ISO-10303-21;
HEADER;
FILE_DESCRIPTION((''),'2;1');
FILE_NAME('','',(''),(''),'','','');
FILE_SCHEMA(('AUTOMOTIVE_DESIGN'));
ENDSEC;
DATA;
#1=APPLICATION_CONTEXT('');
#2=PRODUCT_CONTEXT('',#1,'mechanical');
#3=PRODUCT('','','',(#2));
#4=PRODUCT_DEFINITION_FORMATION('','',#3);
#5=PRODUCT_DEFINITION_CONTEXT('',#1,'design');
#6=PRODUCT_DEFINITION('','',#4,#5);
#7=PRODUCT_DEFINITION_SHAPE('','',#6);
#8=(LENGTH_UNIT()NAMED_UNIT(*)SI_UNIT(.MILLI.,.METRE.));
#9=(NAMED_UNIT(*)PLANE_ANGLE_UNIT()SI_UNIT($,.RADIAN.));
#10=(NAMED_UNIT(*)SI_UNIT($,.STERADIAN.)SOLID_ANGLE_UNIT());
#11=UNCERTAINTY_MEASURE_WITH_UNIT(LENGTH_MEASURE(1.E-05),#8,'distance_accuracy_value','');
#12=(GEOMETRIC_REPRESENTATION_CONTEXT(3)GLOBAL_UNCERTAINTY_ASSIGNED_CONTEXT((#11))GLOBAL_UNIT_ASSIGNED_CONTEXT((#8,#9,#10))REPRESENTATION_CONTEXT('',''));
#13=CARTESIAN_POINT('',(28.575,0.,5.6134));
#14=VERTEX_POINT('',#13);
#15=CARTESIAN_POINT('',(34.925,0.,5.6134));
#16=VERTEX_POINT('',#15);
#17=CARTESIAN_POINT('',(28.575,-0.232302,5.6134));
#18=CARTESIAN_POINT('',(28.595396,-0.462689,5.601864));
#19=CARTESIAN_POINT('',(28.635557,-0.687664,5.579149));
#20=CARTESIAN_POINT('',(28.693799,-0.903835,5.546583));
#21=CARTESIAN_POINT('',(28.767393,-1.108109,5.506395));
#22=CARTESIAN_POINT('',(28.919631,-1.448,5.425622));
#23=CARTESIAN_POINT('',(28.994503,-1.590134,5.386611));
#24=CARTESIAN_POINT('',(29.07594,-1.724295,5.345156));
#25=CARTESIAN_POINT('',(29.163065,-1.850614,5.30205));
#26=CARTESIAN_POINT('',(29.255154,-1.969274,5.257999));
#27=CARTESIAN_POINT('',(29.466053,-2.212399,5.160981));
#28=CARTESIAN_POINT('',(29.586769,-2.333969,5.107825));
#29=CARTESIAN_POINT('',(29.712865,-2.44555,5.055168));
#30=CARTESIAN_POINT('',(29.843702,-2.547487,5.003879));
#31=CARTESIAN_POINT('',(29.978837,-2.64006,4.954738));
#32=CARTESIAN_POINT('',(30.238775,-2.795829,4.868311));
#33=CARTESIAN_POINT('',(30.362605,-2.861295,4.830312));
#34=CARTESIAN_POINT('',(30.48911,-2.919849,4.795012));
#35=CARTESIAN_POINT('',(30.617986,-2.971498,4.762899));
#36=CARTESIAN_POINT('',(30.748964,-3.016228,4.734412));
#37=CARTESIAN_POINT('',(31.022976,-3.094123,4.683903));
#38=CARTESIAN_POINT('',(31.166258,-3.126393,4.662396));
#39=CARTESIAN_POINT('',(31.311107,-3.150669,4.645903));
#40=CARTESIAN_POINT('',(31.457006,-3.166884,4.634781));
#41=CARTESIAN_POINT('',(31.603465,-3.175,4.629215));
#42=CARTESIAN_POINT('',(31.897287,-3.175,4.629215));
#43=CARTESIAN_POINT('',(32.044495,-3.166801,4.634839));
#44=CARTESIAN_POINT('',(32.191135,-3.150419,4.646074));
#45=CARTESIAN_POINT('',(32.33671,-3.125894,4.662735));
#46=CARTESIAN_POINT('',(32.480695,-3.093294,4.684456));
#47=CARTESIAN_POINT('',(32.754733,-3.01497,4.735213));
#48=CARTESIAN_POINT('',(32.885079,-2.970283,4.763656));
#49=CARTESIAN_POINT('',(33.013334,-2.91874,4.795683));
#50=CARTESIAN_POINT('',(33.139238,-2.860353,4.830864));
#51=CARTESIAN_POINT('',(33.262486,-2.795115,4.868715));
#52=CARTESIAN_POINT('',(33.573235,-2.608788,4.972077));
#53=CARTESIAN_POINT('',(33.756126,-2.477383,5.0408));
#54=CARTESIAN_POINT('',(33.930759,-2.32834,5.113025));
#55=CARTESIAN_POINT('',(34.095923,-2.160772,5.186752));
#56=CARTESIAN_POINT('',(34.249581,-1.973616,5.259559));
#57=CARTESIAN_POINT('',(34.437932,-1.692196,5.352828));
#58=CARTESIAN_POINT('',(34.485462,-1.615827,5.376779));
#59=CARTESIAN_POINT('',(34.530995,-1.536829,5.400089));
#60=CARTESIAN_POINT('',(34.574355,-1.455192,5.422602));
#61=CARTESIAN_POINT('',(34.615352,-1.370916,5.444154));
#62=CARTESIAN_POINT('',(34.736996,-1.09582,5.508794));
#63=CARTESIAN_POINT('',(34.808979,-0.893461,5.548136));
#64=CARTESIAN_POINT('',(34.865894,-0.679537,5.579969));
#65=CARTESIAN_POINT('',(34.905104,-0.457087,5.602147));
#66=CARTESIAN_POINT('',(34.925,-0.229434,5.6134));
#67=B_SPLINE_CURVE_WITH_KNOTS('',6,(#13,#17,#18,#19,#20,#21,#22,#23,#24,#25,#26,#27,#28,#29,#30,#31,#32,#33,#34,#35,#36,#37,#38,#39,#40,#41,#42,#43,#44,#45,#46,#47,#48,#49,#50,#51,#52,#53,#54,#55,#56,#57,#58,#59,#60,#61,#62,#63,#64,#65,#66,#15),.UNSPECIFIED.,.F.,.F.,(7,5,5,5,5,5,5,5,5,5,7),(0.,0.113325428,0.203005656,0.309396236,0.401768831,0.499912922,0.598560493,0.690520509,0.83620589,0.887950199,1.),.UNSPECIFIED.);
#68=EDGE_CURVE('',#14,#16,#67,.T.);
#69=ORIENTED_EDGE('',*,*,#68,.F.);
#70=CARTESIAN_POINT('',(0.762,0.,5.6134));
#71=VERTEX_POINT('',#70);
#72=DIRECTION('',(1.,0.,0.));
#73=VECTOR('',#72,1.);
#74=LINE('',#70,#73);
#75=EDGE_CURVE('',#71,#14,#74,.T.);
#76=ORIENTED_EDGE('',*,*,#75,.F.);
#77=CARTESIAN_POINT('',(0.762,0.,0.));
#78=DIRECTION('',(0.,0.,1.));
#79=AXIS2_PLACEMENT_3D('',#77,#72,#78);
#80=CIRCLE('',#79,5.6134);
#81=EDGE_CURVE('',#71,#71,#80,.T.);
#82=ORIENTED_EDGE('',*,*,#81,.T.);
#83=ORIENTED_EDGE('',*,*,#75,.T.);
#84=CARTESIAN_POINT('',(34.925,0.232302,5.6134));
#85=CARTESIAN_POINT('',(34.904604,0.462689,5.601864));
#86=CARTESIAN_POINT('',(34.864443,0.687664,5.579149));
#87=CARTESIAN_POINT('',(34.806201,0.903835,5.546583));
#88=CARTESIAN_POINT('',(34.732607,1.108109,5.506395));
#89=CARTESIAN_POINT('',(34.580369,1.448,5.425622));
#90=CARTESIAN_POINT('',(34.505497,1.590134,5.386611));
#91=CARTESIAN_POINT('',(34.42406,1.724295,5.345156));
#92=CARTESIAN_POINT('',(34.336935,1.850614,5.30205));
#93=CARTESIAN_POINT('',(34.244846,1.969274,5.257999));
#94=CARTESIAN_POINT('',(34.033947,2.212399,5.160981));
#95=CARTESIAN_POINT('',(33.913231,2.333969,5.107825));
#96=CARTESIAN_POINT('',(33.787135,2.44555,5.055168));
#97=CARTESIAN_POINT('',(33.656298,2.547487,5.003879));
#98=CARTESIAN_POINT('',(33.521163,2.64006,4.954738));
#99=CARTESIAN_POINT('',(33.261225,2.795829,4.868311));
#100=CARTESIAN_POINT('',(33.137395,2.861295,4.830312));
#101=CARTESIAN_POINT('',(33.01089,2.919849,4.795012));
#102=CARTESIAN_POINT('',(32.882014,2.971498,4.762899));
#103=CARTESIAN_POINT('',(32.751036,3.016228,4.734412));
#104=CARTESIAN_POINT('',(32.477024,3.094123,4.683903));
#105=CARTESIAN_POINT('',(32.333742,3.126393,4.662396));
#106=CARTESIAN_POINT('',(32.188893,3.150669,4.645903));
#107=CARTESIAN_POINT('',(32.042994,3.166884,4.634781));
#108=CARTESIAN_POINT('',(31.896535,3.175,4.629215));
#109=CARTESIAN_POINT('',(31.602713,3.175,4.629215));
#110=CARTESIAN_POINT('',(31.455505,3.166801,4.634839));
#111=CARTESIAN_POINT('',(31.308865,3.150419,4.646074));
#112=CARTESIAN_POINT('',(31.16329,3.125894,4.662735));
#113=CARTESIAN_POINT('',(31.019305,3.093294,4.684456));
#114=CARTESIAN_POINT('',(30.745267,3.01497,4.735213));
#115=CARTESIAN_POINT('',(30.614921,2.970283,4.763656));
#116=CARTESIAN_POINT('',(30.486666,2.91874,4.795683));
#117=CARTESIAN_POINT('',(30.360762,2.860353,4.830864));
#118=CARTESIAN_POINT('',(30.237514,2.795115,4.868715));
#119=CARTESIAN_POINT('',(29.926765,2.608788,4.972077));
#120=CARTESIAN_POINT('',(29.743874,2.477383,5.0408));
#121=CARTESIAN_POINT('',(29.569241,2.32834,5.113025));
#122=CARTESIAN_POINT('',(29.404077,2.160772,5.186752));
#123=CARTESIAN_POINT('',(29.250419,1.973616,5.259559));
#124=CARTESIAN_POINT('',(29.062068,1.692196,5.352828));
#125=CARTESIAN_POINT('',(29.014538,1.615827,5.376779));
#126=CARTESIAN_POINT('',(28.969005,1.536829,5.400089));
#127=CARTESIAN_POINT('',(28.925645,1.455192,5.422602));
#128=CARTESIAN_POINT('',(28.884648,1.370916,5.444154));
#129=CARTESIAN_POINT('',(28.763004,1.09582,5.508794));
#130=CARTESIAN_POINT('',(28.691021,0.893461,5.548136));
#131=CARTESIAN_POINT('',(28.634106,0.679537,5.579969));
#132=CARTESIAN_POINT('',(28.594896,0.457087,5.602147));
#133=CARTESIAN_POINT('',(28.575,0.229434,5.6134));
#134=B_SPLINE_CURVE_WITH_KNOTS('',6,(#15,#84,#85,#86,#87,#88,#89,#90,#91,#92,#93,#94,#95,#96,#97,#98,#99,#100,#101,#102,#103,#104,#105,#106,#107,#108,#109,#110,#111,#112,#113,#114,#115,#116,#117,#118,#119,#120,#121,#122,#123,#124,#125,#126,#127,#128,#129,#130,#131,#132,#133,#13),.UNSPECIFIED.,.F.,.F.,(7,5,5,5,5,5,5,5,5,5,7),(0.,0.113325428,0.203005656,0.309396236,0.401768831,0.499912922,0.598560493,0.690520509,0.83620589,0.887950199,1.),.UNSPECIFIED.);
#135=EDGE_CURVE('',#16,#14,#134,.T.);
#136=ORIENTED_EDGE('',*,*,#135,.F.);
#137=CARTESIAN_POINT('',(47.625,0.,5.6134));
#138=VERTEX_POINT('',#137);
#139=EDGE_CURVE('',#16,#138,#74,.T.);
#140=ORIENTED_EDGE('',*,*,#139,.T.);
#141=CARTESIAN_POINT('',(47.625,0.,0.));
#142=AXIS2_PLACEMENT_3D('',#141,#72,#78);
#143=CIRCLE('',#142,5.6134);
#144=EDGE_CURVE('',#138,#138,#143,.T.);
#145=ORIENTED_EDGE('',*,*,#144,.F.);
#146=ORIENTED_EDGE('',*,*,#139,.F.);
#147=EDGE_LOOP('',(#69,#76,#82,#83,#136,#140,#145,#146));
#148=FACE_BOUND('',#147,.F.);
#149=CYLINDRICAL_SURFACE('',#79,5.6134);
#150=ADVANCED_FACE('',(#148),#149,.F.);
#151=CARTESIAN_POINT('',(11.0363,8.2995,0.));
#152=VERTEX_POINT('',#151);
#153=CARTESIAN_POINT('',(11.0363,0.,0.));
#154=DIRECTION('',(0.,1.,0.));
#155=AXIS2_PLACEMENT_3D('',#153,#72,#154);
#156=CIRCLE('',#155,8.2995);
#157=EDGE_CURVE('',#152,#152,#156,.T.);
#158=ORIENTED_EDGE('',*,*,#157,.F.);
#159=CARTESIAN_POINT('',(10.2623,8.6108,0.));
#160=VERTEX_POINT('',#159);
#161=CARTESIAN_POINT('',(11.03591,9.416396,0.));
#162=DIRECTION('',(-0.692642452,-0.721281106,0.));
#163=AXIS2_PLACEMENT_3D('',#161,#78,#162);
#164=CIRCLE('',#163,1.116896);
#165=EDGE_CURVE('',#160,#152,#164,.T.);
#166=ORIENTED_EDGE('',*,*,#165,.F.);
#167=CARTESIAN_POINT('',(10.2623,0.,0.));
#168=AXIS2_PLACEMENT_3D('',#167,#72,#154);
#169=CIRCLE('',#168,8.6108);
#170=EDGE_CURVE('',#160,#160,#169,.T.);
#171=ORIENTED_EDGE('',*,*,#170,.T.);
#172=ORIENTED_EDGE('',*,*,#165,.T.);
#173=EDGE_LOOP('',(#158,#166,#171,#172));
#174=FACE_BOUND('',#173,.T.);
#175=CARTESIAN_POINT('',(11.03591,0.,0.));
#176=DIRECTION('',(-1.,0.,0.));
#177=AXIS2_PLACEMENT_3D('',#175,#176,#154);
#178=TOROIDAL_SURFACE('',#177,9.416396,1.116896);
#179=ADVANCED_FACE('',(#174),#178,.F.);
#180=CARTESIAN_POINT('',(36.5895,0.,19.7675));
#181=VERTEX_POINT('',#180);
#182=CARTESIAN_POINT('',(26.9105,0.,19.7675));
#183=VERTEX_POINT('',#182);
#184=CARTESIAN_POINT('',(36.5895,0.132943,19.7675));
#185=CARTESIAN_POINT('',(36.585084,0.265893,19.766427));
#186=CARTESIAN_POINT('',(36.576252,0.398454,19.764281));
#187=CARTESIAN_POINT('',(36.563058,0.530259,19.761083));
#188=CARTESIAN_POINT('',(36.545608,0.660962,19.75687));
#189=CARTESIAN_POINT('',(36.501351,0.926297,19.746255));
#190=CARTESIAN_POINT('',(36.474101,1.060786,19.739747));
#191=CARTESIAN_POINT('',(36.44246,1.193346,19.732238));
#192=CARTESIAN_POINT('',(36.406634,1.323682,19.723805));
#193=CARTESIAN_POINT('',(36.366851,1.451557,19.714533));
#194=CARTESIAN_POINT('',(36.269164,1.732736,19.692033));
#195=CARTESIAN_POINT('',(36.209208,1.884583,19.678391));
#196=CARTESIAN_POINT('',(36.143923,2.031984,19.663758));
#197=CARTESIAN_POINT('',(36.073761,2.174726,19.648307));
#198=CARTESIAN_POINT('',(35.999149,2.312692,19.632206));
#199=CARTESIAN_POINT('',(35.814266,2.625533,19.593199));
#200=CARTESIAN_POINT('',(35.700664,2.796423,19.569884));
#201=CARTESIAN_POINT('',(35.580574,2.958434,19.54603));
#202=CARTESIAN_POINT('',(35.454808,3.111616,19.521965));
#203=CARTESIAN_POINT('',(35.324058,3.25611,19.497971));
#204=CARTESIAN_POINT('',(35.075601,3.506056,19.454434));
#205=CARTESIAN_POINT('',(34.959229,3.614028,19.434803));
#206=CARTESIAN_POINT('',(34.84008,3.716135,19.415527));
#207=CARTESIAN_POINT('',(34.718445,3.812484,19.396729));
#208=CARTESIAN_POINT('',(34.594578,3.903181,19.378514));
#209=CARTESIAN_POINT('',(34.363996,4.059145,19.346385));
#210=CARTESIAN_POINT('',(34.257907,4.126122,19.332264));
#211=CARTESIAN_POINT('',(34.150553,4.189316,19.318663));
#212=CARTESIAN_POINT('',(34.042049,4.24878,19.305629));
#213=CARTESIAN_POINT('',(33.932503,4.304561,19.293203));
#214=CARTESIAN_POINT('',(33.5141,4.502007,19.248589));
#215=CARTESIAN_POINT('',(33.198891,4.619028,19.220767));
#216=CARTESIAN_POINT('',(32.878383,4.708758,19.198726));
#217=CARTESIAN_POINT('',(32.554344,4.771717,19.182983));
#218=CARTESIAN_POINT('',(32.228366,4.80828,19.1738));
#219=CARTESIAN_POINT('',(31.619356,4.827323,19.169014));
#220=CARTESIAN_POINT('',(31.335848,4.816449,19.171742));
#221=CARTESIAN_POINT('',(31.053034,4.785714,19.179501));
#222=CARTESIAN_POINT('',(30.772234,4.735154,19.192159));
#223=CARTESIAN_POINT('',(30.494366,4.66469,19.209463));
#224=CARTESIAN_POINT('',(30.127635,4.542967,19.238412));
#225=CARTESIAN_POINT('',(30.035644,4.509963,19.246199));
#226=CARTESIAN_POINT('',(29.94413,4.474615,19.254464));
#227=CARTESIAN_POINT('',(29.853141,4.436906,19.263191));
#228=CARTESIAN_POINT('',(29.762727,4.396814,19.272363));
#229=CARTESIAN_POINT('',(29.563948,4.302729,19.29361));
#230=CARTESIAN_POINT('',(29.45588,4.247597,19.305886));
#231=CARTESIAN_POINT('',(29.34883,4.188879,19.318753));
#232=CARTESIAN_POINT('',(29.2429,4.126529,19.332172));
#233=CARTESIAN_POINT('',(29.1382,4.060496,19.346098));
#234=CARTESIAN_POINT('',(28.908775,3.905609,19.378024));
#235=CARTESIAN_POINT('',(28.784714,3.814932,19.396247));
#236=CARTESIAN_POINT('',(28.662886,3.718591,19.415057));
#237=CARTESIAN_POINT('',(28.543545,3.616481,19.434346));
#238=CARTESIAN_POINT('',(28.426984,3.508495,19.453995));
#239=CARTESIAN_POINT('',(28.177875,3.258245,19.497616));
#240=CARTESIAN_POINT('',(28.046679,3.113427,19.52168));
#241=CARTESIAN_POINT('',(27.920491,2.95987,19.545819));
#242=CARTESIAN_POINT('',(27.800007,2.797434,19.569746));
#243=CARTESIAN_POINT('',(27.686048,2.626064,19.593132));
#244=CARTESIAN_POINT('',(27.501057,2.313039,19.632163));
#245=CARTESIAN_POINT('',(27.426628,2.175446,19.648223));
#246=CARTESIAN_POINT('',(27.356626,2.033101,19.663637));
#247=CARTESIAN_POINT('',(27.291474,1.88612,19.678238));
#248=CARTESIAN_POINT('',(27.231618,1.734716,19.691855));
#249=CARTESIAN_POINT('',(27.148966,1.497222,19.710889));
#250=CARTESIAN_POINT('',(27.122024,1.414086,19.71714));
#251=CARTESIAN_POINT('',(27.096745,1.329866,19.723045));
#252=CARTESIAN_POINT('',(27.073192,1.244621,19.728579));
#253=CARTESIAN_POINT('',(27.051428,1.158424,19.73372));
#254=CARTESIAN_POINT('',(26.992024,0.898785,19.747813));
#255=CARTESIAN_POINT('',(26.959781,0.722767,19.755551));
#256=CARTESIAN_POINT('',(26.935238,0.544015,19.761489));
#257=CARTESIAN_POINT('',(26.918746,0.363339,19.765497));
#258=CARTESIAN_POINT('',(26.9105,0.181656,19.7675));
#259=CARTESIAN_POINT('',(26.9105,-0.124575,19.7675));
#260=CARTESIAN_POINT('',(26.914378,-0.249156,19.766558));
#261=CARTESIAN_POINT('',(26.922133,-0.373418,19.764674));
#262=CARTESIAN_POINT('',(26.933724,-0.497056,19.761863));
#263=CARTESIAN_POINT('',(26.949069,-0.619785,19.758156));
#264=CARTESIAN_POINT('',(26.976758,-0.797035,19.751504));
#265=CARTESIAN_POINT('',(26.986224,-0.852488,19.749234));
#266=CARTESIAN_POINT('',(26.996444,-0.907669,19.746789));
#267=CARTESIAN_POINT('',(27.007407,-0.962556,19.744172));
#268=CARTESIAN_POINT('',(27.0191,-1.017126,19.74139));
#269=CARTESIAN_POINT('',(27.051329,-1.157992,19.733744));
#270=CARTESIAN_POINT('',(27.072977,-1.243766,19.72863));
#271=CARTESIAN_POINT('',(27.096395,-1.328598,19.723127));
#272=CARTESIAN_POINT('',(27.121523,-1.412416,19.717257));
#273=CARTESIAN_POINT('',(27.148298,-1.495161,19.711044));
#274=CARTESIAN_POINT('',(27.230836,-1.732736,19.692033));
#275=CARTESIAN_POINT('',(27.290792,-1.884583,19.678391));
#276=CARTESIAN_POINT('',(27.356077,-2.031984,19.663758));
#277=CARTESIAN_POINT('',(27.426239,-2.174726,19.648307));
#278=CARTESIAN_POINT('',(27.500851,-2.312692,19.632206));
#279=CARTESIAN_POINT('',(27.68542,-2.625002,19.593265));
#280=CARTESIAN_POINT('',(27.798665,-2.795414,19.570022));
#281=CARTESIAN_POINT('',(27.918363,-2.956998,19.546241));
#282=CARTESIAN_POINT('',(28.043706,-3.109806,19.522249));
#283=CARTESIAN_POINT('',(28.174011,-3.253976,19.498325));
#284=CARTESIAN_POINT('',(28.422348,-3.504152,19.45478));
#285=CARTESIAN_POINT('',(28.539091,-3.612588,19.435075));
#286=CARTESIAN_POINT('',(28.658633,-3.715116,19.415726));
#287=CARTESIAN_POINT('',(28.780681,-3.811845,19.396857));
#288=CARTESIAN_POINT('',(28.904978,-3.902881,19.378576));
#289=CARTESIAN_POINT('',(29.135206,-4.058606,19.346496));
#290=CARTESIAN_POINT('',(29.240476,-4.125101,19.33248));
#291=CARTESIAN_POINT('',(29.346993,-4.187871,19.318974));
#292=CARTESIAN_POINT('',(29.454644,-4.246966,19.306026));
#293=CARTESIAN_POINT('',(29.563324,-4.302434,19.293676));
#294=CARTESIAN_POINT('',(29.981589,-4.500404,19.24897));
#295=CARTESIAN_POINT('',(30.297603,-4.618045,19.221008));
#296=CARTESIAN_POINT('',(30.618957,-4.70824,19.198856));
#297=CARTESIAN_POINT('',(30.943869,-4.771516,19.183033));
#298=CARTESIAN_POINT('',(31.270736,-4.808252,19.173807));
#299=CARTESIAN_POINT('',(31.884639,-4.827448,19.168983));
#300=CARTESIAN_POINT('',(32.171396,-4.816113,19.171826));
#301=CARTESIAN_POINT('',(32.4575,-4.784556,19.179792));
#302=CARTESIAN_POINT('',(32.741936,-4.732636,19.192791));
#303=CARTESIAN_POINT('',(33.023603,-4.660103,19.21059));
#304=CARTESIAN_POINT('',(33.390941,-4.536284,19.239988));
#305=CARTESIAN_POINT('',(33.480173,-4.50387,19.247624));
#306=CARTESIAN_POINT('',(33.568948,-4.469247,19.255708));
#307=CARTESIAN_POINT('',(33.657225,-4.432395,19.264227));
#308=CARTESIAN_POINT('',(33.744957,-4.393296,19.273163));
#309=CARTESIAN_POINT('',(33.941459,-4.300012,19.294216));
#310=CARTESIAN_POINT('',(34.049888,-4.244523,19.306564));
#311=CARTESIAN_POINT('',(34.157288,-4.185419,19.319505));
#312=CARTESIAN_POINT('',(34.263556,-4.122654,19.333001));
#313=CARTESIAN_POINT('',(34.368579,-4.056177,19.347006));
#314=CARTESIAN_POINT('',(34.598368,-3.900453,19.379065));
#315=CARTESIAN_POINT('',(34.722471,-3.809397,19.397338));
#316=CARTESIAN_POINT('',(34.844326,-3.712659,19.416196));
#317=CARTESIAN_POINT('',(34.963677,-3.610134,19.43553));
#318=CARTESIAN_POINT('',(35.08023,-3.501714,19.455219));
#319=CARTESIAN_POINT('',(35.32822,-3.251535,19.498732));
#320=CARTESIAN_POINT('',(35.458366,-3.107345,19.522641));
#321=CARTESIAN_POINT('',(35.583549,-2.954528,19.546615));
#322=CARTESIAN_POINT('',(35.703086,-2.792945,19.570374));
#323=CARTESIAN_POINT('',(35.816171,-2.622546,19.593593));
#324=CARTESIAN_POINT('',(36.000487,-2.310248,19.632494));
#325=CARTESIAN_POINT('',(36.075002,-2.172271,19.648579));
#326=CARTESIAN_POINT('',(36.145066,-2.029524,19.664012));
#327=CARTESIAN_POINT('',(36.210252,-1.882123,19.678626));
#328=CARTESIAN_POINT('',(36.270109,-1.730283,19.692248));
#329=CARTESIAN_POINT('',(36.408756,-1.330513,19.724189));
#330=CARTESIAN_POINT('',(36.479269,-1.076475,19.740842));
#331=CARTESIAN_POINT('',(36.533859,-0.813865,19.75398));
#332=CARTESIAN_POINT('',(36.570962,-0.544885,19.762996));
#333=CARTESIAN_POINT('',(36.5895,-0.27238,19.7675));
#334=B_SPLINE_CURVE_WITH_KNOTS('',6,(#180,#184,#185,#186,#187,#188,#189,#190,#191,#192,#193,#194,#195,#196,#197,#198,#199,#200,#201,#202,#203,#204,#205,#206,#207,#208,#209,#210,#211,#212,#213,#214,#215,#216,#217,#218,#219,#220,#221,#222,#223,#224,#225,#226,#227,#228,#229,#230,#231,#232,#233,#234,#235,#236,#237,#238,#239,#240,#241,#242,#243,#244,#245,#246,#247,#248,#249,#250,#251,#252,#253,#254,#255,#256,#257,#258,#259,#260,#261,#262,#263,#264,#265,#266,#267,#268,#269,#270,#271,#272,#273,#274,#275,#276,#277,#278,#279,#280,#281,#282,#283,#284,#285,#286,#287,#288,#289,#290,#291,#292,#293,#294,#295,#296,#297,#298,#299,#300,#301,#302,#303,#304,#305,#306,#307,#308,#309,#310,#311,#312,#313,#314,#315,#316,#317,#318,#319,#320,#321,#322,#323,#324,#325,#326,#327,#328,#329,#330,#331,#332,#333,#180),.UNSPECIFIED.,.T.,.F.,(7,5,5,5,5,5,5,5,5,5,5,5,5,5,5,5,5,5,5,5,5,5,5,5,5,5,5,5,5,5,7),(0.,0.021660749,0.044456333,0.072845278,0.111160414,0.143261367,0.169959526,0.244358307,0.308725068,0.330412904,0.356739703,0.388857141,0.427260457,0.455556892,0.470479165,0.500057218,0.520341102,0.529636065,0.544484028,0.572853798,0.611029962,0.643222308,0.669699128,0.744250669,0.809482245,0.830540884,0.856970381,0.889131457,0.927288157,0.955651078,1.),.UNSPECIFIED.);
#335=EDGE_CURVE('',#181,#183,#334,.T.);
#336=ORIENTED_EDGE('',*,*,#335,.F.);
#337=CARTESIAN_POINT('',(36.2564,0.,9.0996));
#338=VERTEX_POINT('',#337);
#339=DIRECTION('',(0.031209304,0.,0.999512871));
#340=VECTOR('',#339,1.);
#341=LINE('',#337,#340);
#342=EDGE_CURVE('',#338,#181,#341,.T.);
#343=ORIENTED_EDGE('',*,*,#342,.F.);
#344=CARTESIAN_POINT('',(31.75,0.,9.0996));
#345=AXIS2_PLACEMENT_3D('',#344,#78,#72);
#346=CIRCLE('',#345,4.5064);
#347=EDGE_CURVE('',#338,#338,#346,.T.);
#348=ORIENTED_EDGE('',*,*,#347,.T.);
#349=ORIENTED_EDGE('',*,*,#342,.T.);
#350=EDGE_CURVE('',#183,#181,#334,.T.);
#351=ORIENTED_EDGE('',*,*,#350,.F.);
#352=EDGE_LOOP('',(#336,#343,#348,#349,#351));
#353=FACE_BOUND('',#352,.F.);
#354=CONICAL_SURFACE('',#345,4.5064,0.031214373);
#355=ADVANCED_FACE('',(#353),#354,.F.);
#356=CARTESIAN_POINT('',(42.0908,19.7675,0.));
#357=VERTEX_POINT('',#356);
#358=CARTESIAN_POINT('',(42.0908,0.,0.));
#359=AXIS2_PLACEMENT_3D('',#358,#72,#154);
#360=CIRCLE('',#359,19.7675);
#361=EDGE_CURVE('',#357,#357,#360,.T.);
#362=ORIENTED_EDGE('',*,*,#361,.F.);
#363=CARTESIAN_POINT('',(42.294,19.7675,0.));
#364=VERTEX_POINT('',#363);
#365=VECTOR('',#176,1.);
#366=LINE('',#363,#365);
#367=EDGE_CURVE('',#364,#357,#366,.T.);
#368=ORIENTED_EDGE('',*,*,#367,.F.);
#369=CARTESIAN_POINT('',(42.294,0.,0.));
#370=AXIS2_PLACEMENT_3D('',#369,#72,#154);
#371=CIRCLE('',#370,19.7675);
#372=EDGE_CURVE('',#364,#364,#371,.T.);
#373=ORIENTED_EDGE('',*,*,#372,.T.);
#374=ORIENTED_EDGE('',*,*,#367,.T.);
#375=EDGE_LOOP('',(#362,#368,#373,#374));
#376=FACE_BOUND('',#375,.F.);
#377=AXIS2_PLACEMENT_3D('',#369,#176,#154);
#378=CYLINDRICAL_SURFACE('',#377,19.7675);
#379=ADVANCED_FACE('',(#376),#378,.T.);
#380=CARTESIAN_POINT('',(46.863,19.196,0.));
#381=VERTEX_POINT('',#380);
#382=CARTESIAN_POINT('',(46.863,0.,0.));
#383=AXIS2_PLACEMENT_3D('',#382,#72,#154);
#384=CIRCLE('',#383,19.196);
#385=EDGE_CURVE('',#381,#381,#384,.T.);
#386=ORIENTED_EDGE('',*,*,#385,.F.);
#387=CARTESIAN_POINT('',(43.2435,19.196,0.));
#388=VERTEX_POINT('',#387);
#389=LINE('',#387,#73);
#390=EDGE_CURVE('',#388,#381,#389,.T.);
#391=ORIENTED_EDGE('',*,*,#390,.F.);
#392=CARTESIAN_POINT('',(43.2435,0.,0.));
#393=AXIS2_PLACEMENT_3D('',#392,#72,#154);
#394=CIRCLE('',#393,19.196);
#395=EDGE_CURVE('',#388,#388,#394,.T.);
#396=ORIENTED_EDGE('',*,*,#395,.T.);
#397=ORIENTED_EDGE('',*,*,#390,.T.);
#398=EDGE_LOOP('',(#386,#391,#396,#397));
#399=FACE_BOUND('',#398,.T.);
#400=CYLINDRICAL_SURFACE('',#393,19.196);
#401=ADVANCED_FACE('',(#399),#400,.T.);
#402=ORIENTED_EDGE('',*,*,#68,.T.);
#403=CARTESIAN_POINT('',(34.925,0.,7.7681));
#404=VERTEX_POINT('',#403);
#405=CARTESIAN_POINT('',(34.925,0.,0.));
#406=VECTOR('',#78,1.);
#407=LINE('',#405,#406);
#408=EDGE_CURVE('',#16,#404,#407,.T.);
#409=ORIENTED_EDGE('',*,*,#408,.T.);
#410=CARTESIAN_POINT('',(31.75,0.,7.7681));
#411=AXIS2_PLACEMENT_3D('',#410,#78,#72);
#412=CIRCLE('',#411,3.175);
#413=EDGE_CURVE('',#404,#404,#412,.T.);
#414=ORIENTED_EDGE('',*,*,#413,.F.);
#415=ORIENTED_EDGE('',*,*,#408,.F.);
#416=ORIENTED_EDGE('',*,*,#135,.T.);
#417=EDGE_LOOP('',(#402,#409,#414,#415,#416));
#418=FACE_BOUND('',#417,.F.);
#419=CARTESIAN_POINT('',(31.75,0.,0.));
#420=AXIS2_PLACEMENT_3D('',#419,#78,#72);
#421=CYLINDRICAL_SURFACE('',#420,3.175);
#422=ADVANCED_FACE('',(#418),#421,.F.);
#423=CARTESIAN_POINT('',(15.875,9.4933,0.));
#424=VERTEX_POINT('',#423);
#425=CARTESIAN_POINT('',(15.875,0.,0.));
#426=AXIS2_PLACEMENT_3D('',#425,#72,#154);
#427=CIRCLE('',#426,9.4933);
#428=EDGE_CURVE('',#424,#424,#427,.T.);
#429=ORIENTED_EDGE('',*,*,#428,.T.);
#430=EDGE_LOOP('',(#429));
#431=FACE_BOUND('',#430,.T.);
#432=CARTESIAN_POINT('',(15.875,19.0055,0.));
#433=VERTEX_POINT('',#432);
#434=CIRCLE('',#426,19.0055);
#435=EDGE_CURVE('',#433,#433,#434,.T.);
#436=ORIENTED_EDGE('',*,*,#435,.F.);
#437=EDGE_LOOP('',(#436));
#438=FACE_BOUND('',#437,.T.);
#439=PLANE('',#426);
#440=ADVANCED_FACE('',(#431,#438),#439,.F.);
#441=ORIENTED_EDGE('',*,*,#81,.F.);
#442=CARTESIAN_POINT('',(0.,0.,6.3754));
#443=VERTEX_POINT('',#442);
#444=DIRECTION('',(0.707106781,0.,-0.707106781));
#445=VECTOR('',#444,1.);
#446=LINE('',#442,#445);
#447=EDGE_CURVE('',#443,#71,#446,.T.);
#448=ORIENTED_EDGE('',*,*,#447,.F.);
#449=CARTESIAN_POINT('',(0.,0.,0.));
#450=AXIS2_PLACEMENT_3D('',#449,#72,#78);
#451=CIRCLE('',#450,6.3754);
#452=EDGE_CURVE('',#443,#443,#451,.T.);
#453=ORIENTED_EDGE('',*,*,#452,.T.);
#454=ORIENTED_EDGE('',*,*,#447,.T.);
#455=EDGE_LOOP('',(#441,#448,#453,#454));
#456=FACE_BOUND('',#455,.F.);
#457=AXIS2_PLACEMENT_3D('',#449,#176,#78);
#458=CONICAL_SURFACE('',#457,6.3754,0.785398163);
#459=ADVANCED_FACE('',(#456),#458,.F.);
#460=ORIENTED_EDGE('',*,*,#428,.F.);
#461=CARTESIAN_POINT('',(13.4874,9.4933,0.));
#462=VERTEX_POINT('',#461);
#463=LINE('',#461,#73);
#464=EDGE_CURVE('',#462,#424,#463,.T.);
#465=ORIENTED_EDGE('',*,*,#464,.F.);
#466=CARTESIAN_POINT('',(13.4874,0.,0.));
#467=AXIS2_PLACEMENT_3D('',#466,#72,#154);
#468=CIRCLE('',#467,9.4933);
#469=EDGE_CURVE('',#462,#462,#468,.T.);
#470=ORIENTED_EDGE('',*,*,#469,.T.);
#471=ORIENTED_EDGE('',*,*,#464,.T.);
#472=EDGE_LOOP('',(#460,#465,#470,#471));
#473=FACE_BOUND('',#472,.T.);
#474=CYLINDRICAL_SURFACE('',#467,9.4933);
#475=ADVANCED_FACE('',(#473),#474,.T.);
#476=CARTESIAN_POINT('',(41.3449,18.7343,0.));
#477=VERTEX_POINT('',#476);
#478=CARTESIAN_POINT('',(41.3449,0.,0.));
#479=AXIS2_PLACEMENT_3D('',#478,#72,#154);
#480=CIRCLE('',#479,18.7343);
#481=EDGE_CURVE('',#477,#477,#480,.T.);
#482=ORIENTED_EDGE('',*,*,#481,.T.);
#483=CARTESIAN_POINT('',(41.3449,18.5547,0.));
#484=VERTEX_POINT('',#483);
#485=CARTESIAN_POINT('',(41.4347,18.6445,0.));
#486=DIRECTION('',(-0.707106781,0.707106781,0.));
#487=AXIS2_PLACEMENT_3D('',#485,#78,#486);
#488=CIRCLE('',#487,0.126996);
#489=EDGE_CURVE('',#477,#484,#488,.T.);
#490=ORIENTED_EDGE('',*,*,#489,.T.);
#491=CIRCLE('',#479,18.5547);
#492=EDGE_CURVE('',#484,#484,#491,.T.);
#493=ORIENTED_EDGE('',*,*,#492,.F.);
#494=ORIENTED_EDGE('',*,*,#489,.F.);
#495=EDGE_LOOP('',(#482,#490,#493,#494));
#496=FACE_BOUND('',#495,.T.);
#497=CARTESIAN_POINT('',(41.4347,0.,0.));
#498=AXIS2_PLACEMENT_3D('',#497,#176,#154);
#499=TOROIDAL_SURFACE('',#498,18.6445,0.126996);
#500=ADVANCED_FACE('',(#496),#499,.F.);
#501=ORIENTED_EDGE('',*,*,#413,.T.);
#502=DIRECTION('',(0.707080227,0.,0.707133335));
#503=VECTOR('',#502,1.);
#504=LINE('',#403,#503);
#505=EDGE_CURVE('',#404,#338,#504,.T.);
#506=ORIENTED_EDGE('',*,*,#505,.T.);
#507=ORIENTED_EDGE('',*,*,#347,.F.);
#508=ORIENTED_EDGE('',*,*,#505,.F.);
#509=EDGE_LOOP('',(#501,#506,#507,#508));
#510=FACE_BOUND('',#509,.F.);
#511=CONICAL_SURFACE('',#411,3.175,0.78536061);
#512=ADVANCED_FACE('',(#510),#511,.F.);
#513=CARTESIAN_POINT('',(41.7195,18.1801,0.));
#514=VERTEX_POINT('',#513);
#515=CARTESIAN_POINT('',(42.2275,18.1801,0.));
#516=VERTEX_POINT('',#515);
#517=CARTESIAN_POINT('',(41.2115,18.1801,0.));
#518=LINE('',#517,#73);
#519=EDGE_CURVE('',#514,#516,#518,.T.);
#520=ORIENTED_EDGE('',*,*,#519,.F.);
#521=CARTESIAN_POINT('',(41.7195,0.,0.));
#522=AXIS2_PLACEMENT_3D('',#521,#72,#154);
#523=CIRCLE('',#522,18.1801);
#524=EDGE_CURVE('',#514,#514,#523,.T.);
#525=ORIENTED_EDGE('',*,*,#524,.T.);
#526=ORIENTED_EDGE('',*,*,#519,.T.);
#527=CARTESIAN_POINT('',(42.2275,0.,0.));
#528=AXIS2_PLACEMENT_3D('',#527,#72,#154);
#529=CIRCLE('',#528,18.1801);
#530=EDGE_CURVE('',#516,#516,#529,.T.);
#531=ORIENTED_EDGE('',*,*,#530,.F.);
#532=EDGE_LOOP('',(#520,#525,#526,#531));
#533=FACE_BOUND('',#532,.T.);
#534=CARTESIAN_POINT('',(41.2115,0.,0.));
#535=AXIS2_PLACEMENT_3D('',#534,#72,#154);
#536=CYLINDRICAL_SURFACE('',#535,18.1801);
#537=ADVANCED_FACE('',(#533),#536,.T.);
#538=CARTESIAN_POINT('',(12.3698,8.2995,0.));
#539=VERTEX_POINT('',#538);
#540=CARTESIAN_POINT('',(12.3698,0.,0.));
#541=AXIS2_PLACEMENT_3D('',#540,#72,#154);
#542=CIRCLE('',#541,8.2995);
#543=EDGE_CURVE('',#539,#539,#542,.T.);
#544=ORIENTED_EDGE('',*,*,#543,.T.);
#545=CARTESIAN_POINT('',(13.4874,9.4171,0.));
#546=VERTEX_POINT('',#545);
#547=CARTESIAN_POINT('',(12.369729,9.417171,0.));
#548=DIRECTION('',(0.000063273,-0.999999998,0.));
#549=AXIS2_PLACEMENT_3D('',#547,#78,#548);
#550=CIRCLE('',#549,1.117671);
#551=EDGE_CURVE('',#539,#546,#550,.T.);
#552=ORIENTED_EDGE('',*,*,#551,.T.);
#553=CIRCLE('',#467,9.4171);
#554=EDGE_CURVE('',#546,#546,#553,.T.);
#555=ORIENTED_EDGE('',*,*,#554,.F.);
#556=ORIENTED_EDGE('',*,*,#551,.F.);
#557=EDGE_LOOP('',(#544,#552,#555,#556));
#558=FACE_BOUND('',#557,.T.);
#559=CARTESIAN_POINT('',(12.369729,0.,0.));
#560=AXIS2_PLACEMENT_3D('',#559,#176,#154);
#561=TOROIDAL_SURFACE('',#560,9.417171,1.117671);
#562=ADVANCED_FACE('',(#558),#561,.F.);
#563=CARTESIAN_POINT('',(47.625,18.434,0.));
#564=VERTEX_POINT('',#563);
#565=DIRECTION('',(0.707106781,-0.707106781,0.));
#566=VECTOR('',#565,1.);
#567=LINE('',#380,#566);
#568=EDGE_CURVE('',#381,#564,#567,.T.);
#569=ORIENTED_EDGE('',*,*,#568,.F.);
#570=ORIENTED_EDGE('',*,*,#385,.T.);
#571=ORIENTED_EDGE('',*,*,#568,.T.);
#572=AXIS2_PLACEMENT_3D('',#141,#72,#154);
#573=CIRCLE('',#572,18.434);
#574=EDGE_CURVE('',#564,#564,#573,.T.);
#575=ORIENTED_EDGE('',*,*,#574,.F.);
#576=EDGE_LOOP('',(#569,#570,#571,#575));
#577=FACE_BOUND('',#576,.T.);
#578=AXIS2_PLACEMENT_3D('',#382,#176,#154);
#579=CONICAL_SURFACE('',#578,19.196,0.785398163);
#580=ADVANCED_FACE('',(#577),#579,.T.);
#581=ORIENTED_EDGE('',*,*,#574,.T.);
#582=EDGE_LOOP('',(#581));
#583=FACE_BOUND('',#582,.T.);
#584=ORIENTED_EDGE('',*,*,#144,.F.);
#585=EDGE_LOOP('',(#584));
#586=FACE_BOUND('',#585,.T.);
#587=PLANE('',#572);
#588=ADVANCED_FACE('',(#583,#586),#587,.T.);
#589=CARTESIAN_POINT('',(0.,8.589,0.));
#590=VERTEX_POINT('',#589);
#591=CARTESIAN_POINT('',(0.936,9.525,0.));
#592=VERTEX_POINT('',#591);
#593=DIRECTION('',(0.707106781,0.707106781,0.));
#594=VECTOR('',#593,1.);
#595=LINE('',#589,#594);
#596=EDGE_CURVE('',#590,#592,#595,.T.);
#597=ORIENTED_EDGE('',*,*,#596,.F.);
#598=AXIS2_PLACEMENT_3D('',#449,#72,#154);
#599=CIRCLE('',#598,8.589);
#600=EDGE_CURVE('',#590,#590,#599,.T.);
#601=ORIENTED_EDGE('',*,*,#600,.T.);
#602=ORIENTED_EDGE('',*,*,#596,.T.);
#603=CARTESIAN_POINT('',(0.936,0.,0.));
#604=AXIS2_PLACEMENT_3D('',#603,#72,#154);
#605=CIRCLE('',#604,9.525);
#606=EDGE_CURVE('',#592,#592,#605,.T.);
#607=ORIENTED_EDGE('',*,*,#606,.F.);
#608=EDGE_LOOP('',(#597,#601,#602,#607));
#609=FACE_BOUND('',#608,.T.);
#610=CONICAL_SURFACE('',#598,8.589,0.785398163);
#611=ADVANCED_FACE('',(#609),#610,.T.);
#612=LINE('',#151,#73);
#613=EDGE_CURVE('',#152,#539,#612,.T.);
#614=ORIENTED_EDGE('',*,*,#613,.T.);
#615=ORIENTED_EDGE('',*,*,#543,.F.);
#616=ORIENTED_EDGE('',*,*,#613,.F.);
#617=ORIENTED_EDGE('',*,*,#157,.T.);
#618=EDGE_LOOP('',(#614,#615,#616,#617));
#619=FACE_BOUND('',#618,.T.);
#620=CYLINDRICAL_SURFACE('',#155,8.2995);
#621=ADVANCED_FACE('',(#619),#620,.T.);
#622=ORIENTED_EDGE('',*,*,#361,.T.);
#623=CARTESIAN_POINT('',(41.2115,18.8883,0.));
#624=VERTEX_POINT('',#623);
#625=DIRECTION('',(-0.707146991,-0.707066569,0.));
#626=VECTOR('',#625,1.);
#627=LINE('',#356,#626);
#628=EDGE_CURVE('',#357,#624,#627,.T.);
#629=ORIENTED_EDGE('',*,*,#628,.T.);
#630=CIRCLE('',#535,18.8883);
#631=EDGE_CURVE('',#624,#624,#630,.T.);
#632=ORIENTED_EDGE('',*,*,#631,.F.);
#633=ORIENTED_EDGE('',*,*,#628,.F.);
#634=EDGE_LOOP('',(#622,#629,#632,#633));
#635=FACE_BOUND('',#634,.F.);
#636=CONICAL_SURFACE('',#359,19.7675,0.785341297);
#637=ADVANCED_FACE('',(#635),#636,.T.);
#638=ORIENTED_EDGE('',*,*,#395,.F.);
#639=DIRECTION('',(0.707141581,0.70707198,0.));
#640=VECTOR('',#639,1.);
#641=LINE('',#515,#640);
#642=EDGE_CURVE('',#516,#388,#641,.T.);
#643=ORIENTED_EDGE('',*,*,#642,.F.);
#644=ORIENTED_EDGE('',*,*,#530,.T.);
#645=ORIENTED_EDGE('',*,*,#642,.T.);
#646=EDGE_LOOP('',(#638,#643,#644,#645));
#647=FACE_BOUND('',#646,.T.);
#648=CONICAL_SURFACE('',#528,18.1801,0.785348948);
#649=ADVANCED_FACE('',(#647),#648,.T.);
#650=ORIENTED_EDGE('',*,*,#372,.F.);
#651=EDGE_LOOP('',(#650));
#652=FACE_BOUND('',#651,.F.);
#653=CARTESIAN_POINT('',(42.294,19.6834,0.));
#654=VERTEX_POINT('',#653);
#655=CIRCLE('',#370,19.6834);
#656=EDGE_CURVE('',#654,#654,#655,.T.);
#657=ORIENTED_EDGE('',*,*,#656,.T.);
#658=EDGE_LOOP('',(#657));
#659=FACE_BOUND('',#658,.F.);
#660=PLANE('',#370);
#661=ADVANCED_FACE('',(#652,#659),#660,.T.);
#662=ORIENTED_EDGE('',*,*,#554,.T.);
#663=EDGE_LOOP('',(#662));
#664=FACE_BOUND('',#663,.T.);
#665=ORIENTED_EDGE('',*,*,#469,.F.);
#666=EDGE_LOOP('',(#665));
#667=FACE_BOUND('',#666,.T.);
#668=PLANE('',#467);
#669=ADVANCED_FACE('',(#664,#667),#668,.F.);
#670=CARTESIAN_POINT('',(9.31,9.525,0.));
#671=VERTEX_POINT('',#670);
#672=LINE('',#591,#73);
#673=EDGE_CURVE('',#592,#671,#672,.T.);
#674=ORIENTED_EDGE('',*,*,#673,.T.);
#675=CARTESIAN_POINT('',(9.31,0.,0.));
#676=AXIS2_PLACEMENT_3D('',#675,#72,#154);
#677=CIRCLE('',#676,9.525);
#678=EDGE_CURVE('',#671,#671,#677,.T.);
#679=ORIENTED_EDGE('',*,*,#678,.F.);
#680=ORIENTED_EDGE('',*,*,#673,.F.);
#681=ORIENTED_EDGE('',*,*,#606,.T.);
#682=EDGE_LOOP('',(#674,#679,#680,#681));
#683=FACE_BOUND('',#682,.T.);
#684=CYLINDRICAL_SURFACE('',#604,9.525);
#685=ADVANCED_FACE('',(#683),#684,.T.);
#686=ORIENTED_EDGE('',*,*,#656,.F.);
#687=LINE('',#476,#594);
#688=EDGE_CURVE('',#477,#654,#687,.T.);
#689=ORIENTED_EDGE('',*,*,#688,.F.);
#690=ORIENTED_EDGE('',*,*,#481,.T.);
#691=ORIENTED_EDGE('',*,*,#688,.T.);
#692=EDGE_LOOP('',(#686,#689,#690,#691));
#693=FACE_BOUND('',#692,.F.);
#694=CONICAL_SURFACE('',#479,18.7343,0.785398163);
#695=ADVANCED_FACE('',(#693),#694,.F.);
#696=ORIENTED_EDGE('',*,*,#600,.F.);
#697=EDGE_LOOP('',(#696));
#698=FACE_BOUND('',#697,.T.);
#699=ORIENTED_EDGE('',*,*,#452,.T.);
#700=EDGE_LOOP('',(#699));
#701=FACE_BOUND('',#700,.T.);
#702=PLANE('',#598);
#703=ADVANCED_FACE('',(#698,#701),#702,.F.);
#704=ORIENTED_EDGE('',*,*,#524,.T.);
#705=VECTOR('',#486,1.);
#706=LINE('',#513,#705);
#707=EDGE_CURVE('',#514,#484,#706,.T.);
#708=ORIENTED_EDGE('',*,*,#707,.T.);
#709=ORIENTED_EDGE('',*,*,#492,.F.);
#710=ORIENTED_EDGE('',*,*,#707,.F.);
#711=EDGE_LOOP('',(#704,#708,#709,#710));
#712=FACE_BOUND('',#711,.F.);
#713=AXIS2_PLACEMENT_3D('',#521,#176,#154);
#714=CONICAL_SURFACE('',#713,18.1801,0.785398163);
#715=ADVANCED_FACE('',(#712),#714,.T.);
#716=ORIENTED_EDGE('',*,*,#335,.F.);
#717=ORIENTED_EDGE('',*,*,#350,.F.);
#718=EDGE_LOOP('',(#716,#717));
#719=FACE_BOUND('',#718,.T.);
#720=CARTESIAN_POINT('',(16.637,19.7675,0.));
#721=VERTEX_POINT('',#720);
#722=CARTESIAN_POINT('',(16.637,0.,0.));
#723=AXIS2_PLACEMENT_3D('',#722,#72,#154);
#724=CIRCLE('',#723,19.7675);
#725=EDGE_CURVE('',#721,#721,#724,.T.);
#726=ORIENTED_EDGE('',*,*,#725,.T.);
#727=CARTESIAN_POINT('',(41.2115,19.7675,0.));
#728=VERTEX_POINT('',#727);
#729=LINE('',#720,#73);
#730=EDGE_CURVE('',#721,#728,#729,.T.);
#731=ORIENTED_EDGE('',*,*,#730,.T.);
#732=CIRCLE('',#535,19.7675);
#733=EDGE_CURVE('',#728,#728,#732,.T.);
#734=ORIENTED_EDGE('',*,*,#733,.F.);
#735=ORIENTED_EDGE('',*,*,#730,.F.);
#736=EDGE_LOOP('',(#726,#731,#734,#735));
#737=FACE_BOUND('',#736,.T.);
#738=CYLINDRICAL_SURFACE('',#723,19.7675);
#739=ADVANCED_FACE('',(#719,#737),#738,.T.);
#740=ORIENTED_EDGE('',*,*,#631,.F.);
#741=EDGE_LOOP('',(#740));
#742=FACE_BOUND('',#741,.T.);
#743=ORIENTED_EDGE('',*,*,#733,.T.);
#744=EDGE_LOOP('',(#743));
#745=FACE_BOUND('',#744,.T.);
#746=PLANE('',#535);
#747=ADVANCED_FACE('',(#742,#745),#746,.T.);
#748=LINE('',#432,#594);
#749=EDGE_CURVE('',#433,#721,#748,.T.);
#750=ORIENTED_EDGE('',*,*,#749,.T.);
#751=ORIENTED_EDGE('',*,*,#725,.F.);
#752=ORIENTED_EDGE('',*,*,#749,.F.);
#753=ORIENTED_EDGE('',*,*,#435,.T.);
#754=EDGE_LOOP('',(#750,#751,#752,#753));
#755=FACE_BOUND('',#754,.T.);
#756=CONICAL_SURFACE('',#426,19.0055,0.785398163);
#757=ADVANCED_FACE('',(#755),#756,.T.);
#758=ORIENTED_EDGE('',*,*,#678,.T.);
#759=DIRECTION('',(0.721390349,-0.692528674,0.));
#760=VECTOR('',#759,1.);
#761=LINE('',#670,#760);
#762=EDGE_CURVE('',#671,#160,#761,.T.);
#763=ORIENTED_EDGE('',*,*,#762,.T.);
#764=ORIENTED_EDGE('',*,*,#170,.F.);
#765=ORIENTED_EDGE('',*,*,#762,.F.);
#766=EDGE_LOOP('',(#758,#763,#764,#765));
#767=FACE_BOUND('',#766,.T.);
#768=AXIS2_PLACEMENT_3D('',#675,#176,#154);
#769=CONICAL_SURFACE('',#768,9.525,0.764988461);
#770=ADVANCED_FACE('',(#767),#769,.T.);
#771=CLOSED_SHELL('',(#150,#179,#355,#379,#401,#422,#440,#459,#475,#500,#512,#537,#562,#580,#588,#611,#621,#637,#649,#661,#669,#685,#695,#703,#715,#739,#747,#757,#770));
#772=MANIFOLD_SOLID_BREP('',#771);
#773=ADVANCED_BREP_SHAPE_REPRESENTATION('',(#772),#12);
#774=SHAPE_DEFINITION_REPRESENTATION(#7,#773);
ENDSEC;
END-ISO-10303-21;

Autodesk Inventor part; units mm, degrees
sketch "Sketch_2" plane through (0, 0, 0) normal (0, 0, 1) x (1, 0, 0)
  line L0 (15.875, 0) -> (0, 0)
  line L1 (0, 0) -> (0, 8.589)
  line L2 (0, 8.589) -> (0.936, 9.525)
  line L3 (0.936, 9.525) -> (9.31, 9.525)
  line L4 (9.31, 9.525) -> (10.2623, 8.6108)
  arc A0 (10.2623, 8.6108) -> (11.0363, 8.2995) centre (11.0363, 9.417) ccw
  line L5 (11.0363, 8.2995) -> (12.3698, 8.2995)
  arc A1 (12.3698, 8.2995) -> (13.4874, 9.4171) centre (12.3698, 9.417) ccw
  line L6 (13.4874, 9.4171) -> (13.4874, 9.4933)
  line L7 (13.4874, 9.4933) -> (15.875, 9.4933)
  line L8 (15.875, 9.4933) -> (15.875, 0)
  line L9 (15.875, 0) -> (0, 0)
revolve "Revolution1" add sketch "Sketch_2" angle 360 about axis through (15.875, 0, 0) along (1, 0, 0)
thread "Thread1" size "3/4-16 UNF" class "2A" standard "ANSI Unified Screw Threads" full length
sketch "Sketch_3" plane through (0, 0, 0) normal (0, 0, 1) x (1, 0, 0)
  line L0 (47.625, 0) -> (15.875, 0)
  line L1 (15.875, 0) -> (15.875, 19.0055)
  line L2 (15.875, 19.0055) -> (16.637, 19.7675)
  line L3 (16.637, 19.7675) -> (41.2115, 19.7675)
  line L4 (41.2115, 19.7675) -> (41.2115, 18.1801)
  line L5 (41.2115, 18.1801) -> (42.2275, 18.1801)
  line L6 (42.2275, 18.1801) -> (43.2435, 19.196)
  line L7 (43.2435, 19.196) -> (46.863, 19.196)
  line L8 (46.863, 19.196) -> (47.625, 18.434)
  line L9 (47.625, 18.434) -> (47.625, 0)
  line L10 (47.625, 0) -> (15.875, 0)
revolve "Revolution2" add sketch "Sketch_3" angle 360 about axis through (47.625, 0, 0) along (1, 0, 0)
sketch "Sketch3" plane through (0, 0, 0) normal (-1, 0, 0) x (0, 0, 1)
  point P0 (0, 0)
hole "Hole1" at (0, 0, 0) direction (1, 0, 0) diameter 11.2268 depth 47.625 countersink diameter 12.7508 countersink angle 90
sketch "Sketch_40" plane through (0, 0, 0) normal (0, 1, 0) x (-1, 0, 0)
  line L0 (-31.75, 19.7675) -> (-31.75, 0)
  line L1 (-31.75, 0) -> (-34.925, 0)
  line L2 (-34.925, 0) -> (-34.925, 7.7681)
  line L3 (-34.925, 7.7681) -> (-36.2564, 9.0996)
  line L4 (-36.2564, 9.0996) -> (-36.5895, 19.7675)
  line L5 (-36.5895, 19.7675) -> (-31.75, 19.7675)
  line L6 (-31.75, 19.7675) -> (-31.75, 0)
revolve "Revolution3" cut sketch "Sketch_40" angle 360 about axis through (31.75, 0, 19.7675) along (0, 0, 1)
sketch "Sketch_47" plane through (0, 0, 0) normal (0, 0, 1) x (1, 0, 0)
  line L0 (42.2275, 0) -> (41.2115, 0)
  line L1 (41.2115, 17.9261) -> (42.2275, 17.9261)
  line L2 (42.2275, 17.9261) -> (42.2275, 18.1801)
  line L3 (42.2275, 18.1801) -> (41.7195, 18.1801)
  line L4 (41.7195, 18.1801) -> (41.3449, 18.5547)
  arc A0 (41.3449, 18.7343) -> (41.3449, 18.5547) centre (41.4347, 18.6445) ccw
  line L5 (41.3449, 18.7343) -> (42.294, 19.6834)
  line L6 (42.294, 19.6834) -> (42.294, 19.7675)
  line L7 (42.294, 19.7675) -> (42.0908, 19.7675)
  line L8 (42.0908, 19.7675) -> (41.2115, 18.8883)
  line L9 (41.2115, 18.8883) -> (41.2115, 17.9261)
revolve "Revolution4" add sketch "Sketch_47" angle 360 about axis through (42.2275, 0, 0) along (1, 0, 0)
ref_plane "dp1_XY" through (15.875, 9.4933, 0) normal (0, 0, 1) x (1, 0, 0)
ref_plane "dp1_YZ" through (15.875, 9.4933, 0) normal (1, 0, 0) x (0, 1, 0)
ref_plane "dp1_ZX" through (15.875, 9.4933, 0) normal (0, 1, 0) x (0, 0, 1)
ref_plane "dp2_XY" through (15.875, -9.4933, 0) normal (0, 0, 1) x (1, 0, 0)
ref_plane "dp2_YZ" through (15.875, -9.4933, 0) normal (1, 0, 0) x (0, 1, 0)
ref_plane "dp2_ZX" through (15.875, -9.4933, 0) normal (0, 1, 0) x (0, 0, 1)
ref_plane "port_XY" through (31.75, 0, 0) normal (0, 0, 1) x (1, 0, 0)
ref_plane "port_YZ" through (31.75, 0, 0) normal (1, 0, 0) x (0, 1, 0)
ref_plane "port_ZX" through (31.75, 0, 0) normal (0, 1, 0) x (0, 0, 1)
ref_plane "rod_guide_XY" through (0, 0, 0) normal (1, 0, 0) x (0, 0, -1)
ref_plane "rod_guide_YZ" through (0, 0, 0) normal (0, 0, -1) x (0, 1, 0)
ref_plane "rod_guide_ZX" through (0, 0, 0) normal (0, 1, 0) x (1, 0, 0)
ref_plane "s1_XY" through (13.4874, 0, 0) normal (0, 0, 1) x (1, 0, 0)
ref_plane "s1_YZ" through (13.4874, 0, 0) normal (1, 0, 0) x (0, 1, 0)
ref_plane "s1_ZX" through (13.4874, 0, 0) normal (0, 1, 0) x (0, 0, 1)
ref_plane "s2_XY" through (15.875, 0, 0) normal (0, 0, 1) x (1, 0, 0)
ref_plane "s2_YZ" through (15.875, 0, 0) normal (1, 0, 0) x (0, 1, 0)
ref_plane "s2_ZX" through (15.875, 0, 0) normal (0, 1, 0) x (0, 0, 1)
ref_plane "t1_XY" through (15.875, 0, 0) normal (1, 0, 0) x (0, 0, -1)
ref_plane "t1_YZ" through (15.875, 0, 0) normal (0, 0, -1) x (0, 1, 0)
ref_plane "t1_ZX" through (15.875, 0, 0) normal (0, 1, 0) x (1, 0, 0)
ref_plane "t111_XY" through (15.875, 0, 0) normal (1, 0, 0) x (0, 0, -1)
ref_plane "t111_YZ" through (15.875, 0, 0) normal (0, 0, -1) x (0, 1, 0)
ref_plane "t111_ZX" through (15.875, 0, 0) normal (0, 1, 0) x (1, 0, 0)
ref_plane "to_foot_bracket_XY" through (15.875, 0, 0) normal (1, 0, 0) x (0, 0, -1)
ref_plane "to_foot_bracket_YZ" through (15.875, 0, 0) normal (0, 0, -1) x (0, 1, 0)
ref_plane "to_foot_bracket_ZX" through (15.875, 0, 0) normal (0, 1, 0) x (1, 0, 0)
ref_plane "to_nut_XY" through (13.4874, 0, 0) normal (1, 0, 0) x (0, 0, -1)
ref_plane "to_nut_YZ" through (13.4874, 0, 0) normal (0, 0, -1) x (0, 1, 0)
ref_plane "to_nut_ZX" through (13.4874, 0, 0) normal (0, 1, 0) x (1, 0, 0)
ref_plane "to_rod_XY" through (0, 0, 0) normal (1, 0, 0) x (0, 0, -1)
ref_plane "to_rod_YZ" through (0, 0, 0) normal (0, 0, -1) x (0, 1, 0)
ref_plane "to_rod_ZX" through (0, 0, 0) normal (0, 1, 0) x (1, 0, 0)
ref_plane "to_screw_XY" through (31.75, 14.2875, -10.0711) normal (0, 1, 0) x (1, 0, 0)
ref_plane "to_screw_YZ" through (31.75, 14.2875, -10.0711) normal (1, 0, 0) x (0, 0, -1)
ref_plane "to_screw_ZX" through (31.75, 14.2875, -10.0711) normal (0, 0, -1) x (0, 1, 0)
ref_plane "to_trunnion_brackets_XY" through (26.9494, 0, 0) normal (0, 1, 0) x (1, 0, 0)
ref_plane "to_trunnion_brackets_YZ" through (26.9494, 0, 0) normal (1, 0, 0) x (0, 0, -1)
ref_plane "to_trunnion_brackets_ZX" through (26.9494, 0, 0) normal (0, 0, -1) x (0, 1, 0)
ref_plane "to_trunnion_brackets1_XY" through (26.9494, 22.225, 0) normal (0, 1, 0) x (1, 0, 0)
ref_plane "to_trunnion_brackets1_YZ" through (26.9494, 22.225, 0) normal (1, 0, 0) x (0, 0, -1)
ref_plane "to_trunnion_brackets1_ZX" through (26.9494, 22.225, 0) normal (0, 0, -1) x (0, 1, 0)
ref_plane "to_trunnion_brackets2_XY" through (26.9494, -22.225, 0) normal (0, 1, 0) x (1, 0, 0)
ref_plane "to_trunnion_brackets2_YZ" through (26.9494, -22.225, 0) normal (1, 0, 0) x (0, 0, -1)
ref_plane "to_trunnion_brackets2_ZX" through (26.9494, -22.225, 0) normal (0, 0, -1) x (0, 1, 0)
ref_plane "to_tube_XY" through (42.2275, 0, 0) normal (1, 0, 0) x (0, 0, -1)
ref_plane "to_tube_YZ" through (42.2275, 0, 0) normal (0, 0, -1) x (0, 1, 0)
ref_plane "to_tube_ZX" through (42.2275, 0, 0) normal (0, 1, 0) x (1, 0, 0)
properties part number "17R000-0_rod_guide" material "Steel"
